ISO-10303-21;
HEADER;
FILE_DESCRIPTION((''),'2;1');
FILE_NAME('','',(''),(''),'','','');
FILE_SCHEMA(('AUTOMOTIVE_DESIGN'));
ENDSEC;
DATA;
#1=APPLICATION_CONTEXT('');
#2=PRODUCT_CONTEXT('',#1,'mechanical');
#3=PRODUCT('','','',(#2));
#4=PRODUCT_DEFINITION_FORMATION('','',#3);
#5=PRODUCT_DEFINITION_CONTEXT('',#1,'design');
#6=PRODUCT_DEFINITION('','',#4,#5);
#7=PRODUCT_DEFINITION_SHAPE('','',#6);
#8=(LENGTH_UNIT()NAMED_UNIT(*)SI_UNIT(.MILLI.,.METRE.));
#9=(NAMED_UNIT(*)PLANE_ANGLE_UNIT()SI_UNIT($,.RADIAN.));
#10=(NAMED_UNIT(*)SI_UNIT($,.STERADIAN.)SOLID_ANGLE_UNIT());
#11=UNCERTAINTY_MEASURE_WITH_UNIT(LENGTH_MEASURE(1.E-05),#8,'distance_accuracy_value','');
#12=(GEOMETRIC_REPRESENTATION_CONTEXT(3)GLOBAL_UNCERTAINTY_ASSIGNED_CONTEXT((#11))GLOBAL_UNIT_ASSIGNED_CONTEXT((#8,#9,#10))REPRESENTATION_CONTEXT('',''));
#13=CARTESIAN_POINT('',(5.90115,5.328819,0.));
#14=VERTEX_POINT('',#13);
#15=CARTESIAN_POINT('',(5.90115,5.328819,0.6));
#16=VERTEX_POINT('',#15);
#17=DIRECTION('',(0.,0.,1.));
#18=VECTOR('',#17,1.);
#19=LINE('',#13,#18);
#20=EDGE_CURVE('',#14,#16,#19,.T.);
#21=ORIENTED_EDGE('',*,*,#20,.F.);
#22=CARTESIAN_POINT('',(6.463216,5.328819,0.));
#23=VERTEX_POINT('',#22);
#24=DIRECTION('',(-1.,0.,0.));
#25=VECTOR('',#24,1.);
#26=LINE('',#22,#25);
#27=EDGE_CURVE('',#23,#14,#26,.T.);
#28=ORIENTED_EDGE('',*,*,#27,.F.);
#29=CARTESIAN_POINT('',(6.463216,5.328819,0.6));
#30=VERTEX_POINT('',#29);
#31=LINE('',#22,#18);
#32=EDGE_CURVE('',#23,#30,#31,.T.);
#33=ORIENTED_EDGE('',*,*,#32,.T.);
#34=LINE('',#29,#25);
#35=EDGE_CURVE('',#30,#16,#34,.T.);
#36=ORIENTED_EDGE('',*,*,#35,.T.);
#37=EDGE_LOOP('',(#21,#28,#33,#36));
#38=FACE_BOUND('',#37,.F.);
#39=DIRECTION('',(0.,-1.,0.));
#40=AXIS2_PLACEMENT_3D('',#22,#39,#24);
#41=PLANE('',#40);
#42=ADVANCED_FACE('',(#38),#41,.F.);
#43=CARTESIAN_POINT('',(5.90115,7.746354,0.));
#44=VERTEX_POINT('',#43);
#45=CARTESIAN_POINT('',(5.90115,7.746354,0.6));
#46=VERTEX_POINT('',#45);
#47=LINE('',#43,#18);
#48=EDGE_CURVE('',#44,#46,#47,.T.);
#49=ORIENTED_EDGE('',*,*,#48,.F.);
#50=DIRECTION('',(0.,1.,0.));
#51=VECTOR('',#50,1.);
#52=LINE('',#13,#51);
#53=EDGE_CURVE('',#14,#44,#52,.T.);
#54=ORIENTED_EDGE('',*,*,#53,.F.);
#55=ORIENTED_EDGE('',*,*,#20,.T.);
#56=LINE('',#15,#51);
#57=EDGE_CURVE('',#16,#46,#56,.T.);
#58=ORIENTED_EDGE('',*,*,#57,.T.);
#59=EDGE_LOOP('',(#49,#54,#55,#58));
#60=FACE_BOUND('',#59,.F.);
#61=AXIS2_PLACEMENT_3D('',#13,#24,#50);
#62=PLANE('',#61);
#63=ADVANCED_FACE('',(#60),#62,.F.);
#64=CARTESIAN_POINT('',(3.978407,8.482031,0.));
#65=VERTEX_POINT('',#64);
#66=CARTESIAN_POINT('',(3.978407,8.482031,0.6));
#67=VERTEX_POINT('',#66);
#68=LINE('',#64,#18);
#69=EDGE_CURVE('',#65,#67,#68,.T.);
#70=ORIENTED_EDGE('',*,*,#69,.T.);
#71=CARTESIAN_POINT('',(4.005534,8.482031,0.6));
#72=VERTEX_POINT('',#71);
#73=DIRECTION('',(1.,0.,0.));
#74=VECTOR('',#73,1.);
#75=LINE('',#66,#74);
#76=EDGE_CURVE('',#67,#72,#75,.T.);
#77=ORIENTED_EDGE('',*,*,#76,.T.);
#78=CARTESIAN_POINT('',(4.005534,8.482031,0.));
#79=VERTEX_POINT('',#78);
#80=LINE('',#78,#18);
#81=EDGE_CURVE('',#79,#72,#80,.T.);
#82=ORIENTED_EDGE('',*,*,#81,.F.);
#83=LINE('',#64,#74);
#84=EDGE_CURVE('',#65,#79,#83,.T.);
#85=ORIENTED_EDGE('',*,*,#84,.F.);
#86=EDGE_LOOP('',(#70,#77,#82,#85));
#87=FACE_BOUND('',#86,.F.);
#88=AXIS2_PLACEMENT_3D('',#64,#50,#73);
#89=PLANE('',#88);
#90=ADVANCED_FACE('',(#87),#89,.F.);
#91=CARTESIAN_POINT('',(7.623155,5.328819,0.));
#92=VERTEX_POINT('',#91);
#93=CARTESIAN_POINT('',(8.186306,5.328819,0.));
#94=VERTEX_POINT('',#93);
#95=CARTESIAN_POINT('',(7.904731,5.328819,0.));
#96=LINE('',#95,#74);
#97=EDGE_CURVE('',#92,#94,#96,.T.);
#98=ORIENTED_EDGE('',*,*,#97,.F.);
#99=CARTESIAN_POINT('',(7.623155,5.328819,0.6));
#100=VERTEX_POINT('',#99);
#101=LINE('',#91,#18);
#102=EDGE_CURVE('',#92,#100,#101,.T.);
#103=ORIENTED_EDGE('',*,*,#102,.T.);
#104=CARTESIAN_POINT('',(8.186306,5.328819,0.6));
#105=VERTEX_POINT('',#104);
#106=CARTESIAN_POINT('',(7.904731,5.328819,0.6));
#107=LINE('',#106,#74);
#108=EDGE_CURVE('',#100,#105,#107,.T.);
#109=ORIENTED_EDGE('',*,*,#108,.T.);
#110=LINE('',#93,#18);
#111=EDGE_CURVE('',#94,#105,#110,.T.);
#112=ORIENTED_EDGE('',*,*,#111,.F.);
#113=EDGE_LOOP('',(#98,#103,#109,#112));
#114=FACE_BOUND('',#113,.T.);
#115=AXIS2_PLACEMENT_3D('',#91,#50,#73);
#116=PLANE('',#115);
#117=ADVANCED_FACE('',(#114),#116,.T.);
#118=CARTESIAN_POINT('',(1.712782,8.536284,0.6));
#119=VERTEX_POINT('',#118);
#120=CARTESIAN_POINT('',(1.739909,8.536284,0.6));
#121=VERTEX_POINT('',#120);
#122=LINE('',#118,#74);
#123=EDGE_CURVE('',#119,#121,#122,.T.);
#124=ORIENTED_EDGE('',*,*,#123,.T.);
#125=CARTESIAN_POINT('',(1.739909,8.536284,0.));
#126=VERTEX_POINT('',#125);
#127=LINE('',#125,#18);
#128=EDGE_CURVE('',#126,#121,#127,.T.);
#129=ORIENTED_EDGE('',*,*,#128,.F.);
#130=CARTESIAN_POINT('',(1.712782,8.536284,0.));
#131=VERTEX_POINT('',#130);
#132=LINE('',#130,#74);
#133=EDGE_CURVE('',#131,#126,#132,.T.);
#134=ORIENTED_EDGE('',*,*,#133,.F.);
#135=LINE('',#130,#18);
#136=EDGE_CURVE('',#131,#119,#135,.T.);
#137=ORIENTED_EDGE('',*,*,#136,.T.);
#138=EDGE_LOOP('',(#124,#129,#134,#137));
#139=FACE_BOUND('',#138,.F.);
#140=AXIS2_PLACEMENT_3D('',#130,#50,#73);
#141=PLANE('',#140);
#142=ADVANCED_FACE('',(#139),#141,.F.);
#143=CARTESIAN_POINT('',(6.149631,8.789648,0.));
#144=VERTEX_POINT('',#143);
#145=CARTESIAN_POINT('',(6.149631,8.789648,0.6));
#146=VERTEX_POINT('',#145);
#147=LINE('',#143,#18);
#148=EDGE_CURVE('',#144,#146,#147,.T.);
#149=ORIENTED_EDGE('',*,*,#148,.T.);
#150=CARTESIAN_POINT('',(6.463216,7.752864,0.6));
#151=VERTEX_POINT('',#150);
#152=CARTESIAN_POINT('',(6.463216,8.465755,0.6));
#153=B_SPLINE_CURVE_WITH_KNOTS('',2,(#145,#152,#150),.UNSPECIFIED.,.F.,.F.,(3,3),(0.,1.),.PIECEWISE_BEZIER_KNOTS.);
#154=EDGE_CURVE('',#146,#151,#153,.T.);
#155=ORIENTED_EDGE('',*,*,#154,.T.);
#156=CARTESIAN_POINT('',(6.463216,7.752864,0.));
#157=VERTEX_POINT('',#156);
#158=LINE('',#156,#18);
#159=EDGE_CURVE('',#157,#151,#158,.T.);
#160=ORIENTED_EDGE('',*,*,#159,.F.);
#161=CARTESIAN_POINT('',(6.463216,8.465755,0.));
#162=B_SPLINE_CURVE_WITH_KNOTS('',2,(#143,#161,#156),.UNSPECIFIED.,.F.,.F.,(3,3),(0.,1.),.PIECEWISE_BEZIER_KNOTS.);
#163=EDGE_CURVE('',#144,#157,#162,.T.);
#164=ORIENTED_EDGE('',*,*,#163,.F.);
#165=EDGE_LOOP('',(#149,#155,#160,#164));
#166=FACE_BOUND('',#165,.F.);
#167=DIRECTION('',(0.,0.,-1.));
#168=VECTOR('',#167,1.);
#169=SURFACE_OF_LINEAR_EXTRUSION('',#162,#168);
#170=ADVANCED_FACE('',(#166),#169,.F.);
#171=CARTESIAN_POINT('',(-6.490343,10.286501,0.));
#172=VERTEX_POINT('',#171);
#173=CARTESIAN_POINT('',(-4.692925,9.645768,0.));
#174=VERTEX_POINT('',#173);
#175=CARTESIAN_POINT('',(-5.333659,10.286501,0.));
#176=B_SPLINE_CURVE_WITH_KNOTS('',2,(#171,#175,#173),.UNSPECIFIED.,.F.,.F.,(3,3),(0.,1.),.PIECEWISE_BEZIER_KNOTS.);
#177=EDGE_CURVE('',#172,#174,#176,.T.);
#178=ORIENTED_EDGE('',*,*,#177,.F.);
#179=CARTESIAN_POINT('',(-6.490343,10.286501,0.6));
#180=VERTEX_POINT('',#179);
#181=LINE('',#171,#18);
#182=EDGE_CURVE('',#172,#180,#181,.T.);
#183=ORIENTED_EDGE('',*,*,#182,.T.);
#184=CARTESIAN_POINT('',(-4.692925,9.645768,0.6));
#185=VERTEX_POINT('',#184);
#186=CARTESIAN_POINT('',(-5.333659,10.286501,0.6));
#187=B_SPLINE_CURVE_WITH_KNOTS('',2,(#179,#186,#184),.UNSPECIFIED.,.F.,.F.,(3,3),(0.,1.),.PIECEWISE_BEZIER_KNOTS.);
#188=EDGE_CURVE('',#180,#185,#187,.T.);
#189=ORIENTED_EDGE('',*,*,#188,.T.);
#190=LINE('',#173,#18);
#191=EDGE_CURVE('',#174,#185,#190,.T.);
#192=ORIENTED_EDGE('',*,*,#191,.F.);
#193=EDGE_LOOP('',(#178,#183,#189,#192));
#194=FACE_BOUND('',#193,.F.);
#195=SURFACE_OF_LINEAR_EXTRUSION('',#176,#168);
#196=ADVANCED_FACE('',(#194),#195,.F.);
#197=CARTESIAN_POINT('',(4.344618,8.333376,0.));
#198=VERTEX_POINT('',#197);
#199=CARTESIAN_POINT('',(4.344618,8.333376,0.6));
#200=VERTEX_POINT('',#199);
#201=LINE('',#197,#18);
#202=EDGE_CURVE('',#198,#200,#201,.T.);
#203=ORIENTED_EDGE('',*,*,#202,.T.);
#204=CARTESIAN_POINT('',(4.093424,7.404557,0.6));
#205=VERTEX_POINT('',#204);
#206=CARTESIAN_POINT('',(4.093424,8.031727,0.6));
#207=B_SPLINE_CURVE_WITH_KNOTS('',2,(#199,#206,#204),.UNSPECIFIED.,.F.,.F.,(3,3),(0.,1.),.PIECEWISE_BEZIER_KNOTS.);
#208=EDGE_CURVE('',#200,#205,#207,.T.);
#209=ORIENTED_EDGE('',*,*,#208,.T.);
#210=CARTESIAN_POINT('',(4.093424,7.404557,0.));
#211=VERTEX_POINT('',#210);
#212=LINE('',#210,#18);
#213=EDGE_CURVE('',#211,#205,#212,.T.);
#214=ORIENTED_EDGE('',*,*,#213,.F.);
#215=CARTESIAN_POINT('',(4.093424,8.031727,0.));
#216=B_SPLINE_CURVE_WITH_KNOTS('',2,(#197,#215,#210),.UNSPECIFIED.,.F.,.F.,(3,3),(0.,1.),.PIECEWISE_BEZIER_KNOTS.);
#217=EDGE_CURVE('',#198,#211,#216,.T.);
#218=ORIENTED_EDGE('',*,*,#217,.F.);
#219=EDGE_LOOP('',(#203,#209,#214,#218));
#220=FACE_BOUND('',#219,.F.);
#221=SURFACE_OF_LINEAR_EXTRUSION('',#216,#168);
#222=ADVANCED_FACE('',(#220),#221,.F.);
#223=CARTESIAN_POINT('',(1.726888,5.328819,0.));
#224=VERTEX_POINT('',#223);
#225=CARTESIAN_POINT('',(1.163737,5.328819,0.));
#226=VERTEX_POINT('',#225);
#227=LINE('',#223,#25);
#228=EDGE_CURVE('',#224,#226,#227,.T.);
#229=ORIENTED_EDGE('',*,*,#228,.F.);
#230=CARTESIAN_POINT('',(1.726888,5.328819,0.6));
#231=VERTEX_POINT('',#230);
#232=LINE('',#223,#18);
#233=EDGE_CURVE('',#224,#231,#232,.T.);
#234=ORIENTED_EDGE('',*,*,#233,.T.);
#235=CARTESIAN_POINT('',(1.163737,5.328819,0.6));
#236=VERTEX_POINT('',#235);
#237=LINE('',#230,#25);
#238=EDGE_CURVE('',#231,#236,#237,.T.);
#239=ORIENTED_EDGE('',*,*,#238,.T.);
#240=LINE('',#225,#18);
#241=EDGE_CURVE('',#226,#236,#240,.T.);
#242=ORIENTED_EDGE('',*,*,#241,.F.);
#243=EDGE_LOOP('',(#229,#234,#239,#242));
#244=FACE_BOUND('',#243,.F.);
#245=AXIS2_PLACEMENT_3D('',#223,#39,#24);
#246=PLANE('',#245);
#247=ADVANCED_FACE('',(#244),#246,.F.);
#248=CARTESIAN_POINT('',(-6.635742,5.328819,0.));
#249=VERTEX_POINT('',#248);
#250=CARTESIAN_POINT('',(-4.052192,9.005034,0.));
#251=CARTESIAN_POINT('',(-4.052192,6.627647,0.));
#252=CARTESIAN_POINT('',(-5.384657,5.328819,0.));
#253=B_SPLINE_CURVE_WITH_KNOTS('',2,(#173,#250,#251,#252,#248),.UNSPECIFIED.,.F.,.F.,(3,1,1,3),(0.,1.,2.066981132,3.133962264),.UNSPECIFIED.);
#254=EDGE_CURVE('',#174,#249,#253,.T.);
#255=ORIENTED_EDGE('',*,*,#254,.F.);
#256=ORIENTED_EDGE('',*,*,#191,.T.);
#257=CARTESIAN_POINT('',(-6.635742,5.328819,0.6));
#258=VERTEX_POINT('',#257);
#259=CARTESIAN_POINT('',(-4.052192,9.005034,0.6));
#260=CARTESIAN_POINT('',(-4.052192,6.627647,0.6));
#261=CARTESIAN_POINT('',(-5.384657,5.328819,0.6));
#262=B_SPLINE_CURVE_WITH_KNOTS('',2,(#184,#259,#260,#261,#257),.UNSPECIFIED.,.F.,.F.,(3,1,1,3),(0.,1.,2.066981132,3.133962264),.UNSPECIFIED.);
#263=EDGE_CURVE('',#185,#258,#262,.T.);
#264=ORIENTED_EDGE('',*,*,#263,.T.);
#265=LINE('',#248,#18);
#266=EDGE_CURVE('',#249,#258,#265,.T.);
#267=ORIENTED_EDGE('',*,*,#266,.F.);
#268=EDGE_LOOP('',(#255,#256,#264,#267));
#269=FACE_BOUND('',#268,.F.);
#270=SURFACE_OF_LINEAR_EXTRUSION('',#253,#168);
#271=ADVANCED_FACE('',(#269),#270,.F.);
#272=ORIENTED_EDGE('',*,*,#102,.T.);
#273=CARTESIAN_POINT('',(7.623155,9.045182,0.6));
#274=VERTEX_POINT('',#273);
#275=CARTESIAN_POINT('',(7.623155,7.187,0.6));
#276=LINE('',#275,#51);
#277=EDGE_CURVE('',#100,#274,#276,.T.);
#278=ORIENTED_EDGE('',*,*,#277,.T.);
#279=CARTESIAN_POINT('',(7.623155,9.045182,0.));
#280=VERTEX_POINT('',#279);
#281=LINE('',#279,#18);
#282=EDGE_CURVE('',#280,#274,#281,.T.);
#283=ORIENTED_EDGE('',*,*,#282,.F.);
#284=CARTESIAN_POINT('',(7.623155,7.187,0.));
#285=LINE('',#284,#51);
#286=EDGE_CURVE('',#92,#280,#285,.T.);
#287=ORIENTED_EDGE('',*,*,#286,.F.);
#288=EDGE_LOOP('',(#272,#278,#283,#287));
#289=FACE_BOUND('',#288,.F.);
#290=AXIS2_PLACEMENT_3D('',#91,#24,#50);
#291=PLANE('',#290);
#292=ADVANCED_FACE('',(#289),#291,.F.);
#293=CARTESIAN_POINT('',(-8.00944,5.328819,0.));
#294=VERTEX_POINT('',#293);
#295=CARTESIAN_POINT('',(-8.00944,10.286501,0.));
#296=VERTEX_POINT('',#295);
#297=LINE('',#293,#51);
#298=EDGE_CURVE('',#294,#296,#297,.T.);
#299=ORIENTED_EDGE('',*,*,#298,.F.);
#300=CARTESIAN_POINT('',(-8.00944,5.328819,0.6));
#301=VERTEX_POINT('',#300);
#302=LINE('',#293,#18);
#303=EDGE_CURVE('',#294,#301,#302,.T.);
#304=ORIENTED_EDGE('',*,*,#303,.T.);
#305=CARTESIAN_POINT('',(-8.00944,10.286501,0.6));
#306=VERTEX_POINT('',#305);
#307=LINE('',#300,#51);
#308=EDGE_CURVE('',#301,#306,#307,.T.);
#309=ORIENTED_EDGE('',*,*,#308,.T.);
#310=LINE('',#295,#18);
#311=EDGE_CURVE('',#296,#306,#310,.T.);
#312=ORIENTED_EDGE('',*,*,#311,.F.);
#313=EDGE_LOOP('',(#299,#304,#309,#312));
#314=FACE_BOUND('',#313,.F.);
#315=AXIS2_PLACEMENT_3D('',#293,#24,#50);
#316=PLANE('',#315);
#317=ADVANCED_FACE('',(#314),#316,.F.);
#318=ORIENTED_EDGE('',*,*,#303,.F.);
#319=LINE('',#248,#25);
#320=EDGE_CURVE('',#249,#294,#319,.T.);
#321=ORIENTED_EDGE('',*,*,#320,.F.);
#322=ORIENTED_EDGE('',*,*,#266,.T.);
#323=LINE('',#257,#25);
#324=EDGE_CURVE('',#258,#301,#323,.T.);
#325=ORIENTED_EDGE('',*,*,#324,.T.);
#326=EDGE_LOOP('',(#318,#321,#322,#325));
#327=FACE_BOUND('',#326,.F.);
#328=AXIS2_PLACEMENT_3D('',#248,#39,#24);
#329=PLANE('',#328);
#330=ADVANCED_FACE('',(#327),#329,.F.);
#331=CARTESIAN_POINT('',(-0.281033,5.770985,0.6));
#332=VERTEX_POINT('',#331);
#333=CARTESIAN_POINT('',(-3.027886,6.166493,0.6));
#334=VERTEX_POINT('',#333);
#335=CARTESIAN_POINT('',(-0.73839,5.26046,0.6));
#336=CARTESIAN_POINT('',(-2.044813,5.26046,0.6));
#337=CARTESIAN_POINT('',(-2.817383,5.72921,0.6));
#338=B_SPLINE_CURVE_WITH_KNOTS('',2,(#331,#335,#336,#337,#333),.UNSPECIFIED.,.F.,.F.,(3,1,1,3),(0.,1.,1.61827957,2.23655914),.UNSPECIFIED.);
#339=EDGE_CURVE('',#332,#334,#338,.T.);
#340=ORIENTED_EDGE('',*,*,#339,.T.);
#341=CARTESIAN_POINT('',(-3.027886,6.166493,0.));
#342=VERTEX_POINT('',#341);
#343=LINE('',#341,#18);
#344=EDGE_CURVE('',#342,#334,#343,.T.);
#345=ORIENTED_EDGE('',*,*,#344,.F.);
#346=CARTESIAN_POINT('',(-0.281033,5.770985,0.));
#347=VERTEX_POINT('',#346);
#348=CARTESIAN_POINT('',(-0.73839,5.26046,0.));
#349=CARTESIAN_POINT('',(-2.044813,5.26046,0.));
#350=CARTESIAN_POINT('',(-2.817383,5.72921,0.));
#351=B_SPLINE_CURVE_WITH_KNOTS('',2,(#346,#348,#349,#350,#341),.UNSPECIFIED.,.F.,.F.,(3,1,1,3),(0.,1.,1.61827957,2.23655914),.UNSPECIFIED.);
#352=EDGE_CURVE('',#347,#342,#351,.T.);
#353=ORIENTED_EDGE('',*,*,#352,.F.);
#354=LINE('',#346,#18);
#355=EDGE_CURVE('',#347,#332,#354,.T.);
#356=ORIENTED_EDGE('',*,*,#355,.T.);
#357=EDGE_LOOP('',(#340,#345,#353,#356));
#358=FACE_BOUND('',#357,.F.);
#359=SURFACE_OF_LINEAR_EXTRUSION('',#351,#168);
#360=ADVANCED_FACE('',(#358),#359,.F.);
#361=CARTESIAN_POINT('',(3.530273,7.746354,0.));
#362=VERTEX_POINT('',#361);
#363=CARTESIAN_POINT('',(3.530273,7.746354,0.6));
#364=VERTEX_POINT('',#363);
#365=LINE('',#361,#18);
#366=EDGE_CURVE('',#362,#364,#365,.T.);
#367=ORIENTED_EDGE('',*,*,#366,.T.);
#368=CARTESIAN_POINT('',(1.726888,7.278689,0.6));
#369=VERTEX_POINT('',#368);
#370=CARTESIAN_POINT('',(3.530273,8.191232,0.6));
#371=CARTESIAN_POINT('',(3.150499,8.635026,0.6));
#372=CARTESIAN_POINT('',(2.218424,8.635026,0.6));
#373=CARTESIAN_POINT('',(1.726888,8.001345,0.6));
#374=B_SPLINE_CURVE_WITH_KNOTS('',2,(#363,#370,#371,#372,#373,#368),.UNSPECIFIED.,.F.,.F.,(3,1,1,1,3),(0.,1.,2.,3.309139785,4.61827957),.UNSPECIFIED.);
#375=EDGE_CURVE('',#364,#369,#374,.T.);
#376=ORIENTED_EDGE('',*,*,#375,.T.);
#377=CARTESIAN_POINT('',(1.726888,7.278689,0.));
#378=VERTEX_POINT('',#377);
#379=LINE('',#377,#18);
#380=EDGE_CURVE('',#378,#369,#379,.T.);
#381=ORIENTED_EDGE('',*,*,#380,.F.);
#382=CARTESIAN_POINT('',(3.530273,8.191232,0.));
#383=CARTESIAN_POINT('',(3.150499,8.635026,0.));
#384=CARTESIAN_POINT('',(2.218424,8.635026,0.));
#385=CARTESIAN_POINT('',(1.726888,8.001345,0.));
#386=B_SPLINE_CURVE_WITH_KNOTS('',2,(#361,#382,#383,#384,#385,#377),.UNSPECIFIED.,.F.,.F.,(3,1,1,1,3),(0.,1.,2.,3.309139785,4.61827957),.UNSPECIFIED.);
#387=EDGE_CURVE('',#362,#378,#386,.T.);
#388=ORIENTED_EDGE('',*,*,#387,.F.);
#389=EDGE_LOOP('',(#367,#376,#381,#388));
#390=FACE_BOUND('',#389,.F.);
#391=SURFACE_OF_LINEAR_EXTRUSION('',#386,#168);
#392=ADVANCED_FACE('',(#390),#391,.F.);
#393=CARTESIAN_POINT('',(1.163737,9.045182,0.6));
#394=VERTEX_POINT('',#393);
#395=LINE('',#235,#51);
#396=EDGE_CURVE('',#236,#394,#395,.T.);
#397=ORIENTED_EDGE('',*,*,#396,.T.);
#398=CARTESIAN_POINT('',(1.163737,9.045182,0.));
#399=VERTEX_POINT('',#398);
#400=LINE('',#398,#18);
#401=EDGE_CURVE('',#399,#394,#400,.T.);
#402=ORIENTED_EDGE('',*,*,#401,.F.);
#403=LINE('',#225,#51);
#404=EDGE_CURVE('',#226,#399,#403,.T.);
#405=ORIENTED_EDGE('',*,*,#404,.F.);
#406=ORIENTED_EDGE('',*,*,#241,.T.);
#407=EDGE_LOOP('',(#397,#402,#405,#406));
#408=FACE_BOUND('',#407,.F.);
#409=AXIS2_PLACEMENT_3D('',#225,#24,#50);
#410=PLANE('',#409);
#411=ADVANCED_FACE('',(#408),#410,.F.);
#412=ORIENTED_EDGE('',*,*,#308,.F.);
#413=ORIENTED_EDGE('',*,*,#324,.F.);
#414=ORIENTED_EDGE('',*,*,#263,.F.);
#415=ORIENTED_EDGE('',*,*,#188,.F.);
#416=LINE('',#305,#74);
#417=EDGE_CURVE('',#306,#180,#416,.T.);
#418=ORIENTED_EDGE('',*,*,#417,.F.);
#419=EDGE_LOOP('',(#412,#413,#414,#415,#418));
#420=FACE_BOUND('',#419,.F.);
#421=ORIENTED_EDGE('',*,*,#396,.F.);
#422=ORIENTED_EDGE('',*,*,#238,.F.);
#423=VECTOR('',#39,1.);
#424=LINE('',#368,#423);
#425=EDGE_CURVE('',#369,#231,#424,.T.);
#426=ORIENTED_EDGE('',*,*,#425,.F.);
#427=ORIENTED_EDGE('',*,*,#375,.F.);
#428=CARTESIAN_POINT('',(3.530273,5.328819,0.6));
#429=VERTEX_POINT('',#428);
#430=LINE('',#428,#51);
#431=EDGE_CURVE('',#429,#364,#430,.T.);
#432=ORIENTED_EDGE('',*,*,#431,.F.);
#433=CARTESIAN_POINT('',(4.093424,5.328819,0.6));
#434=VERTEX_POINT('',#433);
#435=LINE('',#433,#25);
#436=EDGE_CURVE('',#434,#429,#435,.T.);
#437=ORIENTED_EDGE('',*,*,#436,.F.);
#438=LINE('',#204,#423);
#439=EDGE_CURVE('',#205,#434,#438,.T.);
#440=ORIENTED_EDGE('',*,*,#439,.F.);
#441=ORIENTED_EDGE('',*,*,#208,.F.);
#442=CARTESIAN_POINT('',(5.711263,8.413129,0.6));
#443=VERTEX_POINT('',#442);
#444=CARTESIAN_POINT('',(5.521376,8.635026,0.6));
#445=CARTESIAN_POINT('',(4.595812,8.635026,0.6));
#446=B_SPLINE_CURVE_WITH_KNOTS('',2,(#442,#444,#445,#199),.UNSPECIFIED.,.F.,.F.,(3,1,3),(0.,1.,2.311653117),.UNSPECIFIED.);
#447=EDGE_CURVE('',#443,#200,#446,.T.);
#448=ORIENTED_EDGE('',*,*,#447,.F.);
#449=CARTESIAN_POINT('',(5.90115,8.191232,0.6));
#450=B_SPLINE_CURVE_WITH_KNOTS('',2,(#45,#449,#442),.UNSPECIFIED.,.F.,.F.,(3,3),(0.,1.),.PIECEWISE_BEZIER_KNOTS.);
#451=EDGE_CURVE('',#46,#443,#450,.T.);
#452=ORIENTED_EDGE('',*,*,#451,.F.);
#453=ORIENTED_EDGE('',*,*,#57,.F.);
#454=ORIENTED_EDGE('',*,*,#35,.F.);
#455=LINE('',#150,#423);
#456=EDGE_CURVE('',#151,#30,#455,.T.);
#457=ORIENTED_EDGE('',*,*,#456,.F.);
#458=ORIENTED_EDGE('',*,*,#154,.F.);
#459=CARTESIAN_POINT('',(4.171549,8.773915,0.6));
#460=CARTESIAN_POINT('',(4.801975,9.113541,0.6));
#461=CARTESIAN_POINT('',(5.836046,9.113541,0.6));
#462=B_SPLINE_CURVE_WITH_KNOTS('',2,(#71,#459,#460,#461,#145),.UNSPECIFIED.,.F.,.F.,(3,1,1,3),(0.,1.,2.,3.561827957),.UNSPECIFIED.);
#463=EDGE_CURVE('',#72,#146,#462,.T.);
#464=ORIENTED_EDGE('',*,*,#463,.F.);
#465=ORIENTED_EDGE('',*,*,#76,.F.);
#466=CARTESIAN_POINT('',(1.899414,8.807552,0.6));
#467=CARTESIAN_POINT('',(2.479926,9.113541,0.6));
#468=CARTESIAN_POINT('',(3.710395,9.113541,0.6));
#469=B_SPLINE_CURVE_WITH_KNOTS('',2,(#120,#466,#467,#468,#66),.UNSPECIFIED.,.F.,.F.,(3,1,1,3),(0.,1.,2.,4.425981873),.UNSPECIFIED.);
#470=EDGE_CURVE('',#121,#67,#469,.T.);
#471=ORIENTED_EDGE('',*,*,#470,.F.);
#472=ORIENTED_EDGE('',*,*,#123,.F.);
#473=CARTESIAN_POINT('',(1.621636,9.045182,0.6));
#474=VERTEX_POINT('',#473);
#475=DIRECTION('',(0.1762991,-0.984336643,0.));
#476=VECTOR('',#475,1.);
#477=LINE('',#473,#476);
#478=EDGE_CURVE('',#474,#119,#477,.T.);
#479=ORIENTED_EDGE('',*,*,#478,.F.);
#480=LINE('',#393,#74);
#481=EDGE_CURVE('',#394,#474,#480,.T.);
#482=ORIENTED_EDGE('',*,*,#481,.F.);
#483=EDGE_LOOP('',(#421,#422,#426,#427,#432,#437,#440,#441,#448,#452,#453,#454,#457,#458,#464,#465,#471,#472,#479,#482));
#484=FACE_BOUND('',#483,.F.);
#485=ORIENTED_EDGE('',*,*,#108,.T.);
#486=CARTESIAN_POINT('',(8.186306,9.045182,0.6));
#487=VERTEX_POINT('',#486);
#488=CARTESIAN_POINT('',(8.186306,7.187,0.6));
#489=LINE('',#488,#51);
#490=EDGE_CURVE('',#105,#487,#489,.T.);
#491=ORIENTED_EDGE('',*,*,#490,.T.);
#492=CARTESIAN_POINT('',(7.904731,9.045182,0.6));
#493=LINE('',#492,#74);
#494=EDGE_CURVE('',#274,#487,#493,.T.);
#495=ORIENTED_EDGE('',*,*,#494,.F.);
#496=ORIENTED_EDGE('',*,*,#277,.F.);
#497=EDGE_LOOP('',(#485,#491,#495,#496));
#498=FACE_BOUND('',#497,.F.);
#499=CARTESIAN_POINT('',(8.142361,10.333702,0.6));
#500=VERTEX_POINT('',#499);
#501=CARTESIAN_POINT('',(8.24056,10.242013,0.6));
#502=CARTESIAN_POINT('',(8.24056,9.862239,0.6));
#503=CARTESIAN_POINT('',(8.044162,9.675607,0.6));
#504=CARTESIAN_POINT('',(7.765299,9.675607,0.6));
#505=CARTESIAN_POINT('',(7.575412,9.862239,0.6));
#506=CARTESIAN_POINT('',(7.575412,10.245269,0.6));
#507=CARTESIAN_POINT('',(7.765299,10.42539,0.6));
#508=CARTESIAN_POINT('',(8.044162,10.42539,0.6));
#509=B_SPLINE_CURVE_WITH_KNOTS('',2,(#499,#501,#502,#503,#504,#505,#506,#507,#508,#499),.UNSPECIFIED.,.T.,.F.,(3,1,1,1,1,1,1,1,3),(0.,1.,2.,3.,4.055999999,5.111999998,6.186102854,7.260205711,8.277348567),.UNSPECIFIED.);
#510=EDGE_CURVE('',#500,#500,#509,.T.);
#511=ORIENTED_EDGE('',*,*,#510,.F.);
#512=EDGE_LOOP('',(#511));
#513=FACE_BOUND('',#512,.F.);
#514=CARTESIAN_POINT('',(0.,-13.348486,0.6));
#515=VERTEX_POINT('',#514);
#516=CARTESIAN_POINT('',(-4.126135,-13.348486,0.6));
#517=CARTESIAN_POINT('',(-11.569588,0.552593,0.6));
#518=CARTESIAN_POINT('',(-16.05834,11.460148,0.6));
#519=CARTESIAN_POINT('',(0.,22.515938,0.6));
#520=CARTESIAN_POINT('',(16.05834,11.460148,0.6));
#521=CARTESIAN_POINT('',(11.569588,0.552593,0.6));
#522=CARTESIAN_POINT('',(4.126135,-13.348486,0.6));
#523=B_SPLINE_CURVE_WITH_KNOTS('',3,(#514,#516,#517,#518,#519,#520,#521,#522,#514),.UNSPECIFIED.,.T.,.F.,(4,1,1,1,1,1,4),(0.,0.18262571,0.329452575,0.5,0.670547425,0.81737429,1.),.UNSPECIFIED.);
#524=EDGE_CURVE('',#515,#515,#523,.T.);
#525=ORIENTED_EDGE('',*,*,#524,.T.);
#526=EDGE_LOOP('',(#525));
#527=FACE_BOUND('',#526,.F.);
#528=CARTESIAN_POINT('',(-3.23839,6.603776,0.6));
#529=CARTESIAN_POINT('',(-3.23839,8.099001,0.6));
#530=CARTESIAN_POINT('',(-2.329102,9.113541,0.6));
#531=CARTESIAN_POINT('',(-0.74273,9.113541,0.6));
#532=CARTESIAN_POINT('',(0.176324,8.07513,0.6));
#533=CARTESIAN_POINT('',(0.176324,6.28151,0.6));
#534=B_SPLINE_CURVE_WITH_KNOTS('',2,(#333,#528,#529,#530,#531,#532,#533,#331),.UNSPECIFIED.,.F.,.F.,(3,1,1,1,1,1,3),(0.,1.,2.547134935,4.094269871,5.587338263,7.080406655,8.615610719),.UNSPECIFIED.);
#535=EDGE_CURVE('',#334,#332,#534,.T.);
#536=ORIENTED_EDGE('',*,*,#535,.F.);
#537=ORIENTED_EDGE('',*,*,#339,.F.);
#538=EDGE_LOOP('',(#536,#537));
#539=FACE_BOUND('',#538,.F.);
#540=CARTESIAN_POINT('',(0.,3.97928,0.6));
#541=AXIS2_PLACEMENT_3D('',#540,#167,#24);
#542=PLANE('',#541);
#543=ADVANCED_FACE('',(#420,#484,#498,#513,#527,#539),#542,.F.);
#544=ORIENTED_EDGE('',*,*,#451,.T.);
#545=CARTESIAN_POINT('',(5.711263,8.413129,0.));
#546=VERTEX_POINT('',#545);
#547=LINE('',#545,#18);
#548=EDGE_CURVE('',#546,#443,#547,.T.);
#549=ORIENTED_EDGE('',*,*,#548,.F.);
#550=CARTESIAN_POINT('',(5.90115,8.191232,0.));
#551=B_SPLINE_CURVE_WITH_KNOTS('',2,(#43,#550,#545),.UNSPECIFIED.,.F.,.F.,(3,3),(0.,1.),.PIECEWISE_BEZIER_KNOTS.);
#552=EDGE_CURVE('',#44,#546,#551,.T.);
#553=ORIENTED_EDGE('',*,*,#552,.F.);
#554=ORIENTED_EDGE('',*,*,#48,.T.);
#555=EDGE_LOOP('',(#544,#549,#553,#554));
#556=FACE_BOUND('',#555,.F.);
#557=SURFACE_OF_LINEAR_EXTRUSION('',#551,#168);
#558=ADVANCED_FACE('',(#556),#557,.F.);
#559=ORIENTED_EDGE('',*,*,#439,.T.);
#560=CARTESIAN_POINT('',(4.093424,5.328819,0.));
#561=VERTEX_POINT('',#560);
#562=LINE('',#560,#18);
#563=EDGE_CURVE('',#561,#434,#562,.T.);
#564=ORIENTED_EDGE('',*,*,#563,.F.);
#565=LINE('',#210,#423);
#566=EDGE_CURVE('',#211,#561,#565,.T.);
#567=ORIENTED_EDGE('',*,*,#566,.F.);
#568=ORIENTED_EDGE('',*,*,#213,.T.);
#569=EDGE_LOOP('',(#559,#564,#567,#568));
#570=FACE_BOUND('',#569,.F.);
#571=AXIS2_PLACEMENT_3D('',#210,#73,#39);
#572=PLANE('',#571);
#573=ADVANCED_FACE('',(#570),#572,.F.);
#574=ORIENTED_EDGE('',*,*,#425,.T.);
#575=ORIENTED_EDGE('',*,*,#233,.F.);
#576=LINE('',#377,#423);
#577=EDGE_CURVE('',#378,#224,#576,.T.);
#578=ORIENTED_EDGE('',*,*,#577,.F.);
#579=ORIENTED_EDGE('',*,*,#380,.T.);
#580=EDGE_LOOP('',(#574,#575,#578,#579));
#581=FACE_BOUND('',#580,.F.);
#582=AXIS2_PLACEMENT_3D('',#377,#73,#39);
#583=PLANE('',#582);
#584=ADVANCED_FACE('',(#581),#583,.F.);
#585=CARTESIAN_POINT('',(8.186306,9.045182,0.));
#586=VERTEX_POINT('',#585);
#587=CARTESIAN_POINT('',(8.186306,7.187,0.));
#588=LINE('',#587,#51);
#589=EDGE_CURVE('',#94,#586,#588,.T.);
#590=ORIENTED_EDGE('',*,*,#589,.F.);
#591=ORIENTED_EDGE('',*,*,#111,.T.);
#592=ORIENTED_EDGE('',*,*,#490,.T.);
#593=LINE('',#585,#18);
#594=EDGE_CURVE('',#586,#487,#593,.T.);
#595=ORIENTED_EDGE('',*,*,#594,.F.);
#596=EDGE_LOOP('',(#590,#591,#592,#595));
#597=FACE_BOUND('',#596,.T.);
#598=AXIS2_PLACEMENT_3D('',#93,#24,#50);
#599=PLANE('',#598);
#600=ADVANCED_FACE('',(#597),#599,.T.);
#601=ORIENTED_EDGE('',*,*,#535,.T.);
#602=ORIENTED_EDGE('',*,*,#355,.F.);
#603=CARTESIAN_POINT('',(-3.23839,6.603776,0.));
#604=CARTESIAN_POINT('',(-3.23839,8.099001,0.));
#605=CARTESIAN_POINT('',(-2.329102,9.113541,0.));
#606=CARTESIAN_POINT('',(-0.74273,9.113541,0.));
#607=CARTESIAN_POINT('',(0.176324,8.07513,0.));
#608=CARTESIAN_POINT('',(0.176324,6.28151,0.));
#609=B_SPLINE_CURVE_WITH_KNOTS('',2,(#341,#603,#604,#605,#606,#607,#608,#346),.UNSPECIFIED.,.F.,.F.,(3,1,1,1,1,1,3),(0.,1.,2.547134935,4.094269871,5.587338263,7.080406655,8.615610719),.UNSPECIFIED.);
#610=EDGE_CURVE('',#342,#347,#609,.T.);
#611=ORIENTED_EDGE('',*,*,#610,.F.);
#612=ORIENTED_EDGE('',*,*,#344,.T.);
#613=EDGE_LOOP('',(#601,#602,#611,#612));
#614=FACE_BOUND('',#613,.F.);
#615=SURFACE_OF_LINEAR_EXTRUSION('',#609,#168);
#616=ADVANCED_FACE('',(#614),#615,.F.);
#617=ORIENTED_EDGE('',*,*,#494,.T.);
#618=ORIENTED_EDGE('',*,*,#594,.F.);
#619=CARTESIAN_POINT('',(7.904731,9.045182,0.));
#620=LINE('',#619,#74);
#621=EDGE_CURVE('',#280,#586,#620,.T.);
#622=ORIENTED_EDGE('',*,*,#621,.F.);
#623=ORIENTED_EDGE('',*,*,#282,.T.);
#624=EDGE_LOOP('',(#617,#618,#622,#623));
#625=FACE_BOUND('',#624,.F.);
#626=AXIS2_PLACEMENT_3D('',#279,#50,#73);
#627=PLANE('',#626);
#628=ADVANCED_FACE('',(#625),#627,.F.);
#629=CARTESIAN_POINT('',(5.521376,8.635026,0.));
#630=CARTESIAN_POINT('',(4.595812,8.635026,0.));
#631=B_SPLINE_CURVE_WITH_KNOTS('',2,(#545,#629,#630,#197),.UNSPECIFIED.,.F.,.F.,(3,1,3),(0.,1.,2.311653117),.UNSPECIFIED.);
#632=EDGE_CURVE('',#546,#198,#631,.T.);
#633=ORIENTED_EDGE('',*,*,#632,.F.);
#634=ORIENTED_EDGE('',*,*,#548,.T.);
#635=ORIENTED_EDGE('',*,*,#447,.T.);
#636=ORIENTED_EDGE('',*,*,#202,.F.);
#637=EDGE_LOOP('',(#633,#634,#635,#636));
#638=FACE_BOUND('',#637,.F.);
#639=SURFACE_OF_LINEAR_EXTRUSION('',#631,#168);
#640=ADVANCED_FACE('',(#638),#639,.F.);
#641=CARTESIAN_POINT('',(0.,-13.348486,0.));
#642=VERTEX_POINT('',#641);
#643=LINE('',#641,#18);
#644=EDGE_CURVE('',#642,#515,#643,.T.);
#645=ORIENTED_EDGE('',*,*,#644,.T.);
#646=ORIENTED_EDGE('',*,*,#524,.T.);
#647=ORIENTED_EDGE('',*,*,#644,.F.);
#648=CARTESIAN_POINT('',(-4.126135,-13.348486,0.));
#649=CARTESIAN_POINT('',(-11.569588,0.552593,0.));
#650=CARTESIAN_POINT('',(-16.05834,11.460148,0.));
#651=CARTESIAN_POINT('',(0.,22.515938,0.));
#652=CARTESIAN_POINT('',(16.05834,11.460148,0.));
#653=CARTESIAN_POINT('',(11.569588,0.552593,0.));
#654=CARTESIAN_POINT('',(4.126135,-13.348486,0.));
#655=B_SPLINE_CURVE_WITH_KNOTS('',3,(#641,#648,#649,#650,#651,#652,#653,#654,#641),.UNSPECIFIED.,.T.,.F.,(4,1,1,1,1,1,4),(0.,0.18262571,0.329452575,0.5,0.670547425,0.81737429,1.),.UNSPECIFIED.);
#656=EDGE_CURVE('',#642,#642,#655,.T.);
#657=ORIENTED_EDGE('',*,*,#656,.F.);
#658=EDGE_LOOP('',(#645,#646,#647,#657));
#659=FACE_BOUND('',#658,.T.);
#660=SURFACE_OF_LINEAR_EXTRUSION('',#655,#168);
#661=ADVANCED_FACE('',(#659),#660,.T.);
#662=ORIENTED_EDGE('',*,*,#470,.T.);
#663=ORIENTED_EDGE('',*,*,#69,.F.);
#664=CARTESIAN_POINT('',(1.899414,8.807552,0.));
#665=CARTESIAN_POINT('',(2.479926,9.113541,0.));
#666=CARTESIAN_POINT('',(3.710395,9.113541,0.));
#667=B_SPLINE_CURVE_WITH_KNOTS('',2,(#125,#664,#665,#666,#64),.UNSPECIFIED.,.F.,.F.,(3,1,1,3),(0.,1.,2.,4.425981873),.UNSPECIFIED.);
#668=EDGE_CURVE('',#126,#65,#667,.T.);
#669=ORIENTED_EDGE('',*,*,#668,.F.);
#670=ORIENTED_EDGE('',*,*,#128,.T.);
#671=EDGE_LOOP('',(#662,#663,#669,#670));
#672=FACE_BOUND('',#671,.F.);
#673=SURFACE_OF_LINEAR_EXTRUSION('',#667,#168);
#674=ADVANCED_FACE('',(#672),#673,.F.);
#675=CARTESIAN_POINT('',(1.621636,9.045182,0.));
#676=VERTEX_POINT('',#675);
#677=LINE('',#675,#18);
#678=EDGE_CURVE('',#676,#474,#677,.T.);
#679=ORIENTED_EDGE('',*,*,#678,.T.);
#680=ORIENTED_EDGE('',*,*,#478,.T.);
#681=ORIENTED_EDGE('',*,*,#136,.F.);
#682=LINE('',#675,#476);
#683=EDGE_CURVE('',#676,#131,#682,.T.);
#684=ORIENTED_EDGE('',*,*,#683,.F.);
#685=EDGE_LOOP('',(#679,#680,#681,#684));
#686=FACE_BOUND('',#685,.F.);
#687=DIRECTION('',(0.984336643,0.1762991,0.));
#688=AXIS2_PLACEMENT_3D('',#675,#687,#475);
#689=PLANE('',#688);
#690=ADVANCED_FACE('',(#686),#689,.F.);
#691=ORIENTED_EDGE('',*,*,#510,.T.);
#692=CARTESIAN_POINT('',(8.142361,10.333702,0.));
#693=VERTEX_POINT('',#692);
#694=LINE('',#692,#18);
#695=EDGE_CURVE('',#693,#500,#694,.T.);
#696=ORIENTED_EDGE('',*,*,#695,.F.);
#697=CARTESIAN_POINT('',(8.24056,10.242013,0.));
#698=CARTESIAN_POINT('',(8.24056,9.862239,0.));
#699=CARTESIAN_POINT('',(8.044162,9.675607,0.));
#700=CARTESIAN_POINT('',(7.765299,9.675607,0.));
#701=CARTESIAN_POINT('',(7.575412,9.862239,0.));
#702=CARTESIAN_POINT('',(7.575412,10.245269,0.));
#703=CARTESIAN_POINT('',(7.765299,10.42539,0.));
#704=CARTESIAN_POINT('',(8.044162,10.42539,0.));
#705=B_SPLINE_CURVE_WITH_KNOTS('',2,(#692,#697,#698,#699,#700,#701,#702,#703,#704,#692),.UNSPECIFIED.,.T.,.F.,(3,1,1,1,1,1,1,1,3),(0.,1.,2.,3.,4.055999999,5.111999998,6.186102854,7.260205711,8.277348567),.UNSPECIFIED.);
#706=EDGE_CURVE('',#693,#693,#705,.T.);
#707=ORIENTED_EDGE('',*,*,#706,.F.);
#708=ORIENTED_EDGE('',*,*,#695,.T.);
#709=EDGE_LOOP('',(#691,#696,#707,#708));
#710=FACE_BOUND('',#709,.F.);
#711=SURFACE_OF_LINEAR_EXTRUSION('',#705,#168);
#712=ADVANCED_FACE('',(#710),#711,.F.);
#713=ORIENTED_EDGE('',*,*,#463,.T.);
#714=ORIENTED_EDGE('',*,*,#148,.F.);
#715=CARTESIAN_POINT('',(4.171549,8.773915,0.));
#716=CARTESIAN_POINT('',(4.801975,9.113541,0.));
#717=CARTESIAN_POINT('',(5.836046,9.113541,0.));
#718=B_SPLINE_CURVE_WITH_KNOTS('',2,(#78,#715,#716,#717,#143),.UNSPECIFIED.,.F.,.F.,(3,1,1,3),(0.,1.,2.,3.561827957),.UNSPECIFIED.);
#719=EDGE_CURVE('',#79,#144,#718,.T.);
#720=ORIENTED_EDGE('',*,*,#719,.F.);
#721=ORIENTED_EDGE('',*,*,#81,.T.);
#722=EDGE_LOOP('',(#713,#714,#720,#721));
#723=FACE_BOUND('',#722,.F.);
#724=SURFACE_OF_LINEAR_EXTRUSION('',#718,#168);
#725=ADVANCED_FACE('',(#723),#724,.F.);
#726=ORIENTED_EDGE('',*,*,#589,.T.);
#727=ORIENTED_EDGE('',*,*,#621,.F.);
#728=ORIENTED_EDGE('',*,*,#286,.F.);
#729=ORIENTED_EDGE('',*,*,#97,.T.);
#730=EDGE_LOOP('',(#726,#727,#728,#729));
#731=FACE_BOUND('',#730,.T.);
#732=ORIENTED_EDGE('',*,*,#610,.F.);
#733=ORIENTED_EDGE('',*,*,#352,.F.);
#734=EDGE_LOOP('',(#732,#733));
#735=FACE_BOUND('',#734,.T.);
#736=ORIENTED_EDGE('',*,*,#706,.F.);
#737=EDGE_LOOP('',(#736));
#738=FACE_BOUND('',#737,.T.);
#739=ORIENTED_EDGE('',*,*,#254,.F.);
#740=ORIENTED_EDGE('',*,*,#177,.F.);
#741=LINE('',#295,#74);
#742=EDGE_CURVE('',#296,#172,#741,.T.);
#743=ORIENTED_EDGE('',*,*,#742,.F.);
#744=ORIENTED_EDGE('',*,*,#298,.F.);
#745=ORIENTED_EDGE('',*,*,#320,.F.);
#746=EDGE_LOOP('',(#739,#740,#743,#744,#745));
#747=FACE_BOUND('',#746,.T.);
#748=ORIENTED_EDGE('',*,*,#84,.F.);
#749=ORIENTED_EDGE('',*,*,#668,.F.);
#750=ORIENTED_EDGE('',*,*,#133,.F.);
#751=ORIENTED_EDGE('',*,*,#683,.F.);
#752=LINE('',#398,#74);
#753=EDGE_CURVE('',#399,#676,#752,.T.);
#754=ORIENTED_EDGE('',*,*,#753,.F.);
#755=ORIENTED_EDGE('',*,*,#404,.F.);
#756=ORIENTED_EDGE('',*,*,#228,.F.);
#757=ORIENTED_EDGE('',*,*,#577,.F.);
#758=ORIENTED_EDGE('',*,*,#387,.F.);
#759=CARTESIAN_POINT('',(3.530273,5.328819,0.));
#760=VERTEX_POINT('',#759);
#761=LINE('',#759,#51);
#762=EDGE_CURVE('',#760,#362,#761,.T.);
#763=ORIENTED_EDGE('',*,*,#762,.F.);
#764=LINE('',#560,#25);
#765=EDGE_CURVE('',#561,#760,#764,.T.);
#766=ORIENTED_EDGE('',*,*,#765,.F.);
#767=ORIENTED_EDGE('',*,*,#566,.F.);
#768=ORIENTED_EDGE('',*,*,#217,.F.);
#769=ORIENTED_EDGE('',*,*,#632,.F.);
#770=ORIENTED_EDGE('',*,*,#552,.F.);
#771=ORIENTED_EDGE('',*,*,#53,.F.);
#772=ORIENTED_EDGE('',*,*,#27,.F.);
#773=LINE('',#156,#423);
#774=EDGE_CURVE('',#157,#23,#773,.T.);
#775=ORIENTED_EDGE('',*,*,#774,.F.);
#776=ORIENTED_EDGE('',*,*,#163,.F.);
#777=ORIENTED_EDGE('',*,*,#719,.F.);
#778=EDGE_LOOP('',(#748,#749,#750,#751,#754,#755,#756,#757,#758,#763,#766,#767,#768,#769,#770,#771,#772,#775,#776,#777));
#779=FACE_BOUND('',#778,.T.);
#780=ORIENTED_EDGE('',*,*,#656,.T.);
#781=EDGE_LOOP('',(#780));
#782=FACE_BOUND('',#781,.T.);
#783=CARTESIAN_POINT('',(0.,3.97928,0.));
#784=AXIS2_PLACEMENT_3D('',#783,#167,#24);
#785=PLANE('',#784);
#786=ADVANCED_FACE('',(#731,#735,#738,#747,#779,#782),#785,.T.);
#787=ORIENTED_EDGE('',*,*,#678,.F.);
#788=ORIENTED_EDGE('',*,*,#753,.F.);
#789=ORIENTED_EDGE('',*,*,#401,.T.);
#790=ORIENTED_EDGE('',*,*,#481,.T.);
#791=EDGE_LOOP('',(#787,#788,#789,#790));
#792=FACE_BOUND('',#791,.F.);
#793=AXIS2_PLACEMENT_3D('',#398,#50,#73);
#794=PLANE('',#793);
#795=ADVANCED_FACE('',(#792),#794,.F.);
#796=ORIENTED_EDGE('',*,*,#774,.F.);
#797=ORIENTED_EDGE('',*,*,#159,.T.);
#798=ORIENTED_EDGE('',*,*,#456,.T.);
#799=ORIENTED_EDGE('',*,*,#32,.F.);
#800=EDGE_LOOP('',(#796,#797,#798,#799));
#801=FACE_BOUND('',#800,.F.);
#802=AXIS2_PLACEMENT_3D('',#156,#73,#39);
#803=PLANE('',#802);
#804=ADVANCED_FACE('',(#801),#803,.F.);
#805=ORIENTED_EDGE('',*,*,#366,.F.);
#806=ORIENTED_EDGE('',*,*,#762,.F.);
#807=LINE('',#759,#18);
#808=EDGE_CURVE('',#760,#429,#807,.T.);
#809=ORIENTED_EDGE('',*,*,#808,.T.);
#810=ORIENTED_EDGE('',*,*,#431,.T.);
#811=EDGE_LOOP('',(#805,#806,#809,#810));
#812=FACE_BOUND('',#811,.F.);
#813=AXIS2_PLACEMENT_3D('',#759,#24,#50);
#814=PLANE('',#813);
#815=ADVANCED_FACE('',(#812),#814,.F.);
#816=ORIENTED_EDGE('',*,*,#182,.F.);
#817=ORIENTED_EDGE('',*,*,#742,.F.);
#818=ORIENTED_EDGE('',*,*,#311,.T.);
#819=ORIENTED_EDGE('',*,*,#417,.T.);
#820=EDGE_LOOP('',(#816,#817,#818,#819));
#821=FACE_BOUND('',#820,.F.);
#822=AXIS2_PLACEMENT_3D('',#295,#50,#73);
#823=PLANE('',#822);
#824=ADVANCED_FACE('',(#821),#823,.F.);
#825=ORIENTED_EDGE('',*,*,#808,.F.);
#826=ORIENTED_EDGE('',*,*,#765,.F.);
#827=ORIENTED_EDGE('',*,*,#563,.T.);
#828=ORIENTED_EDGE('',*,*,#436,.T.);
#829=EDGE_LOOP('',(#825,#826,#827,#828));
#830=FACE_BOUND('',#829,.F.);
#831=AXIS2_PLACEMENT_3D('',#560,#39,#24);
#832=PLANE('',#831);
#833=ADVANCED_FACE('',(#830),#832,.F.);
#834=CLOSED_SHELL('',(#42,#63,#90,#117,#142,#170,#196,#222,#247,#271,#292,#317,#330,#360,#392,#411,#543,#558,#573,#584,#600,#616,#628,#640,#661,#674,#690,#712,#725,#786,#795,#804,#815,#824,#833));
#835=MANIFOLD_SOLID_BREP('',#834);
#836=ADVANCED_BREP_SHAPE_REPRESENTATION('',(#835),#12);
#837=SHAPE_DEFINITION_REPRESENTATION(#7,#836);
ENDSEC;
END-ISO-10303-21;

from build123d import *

# Parameters (mm, degrees)
F0_W     = 0.5631510417
F0_H     = 3.7163628472
F1_DEPTH = 0.6


with BuildPart() as f1:
    # F0 (on Top) → F1 (new body)
    with BuildSketch(Plane.XY):
        with BuildLine():
            add(Edge.make_bspline(
                [(0, -13.3484860004), (-4.1261352973, -13.3484860004), (-11.5695883563, 0.5525926673), (-16.058339722, 11.46014805), (0, 22.5159383761), (16.058339722, 11.46014805), (11.5695883563, 0.5525926673), (4.1261352973, -13.3484860004), (0, -13.3484860004)],
                knots=[0, 0, 0, 0, 0.18262571, 0.3294525753, 0.5, 0.6705474247, 0.81737429, 1, 1, 1, 1], degree=3))
        make_face()
        with BuildLine():
            add(Edge.make_bspline(
                [(-4.6929253472, 9.6457678287), (-4.0521918403, 9.0050343217), (-4.0521918403, 7.8548607106)],
                knots=[0, 0, 0, 1, 1, 1], degree=2))
            add(Edge.make_bspline(
                [(-4.0521918403, 7.8548607106), (-4.0521918403, 6.6276471689), (-4.7184244792, 5.9782331064)],
                knots=[0, 0, 0, 1, 1, 1], degree=2))
            add(Edge.make_bspline(
                [(-4.7184244792, 5.9782331064), (-5.3846571181, 5.3288190439), (-6.6357421875, 5.3288190439)],
                knots=[0, 0, 0, 1, 1, 1], degree=2))
            Line((-6.6357421875, 5.3288190439), (-8.0094401042, 5.3288190439))
            Line((-8.0094401042, 5.3288190439), (-8.0094401042, 10.2865013356))
            Line((-8.0094401042, 10.2865013356), (-6.4903428819, 10.2865013356))
            add(Edge.make_bspline(
                [(-6.4903428819, 10.2865013356), (-5.3336588542, 10.2865013356), (-4.6929253472, 9.6457678287)],
                knots=[0, 0, 0, 1, 1, 1], degree=2))
        make_face(mode=Mode.SUBTRACT)
        with BuildLine():
            add(Edge.make_bspline(
                [(-0.283203125, 8.594335537), (0.1763237847, 8.0751298078), (0.1763237847, 7.1907982106)],
                knots=[0, 0, 0, 1, 1, 1], degree=2))
            add(Edge.make_bspline(
                [(0.1763237847, 7.1907982106), (0.1763237847, 6.2815100162), (-0.2810329861, 5.7709848425)],
                knots=[0, 0, 0, 1, 1, 1], degree=2))
            add(Edge.make_bspline(
                [(-0.2810329861, 5.7709848425), (-0.7383897569, 5.2604596689), (-1.5456814236, 5.2604596689)],
                knots=[0, 0, 0, 1, 1, 1], degree=2))
            add(Edge.make_bspline(
                [(-1.5456814236, 5.2604596689), (-2.0448133681, 5.2604596689), (-2.4310980903, 5.4948346689)],
                knots=[0, 0, 0, 1, 1, 1], degree=2))
            add(Edge.make_bspline(
                [(-2.4310980903, 5.4948346689), (-2.8173828125, 5.7292096689), (-3.0278862847, 6.166492655)],
                knots=[0, 0, 0, 1, 1, 1], degree=2))
            add(Edge.make_bspline(
                [(-3.0278862847, 6.166492655), (-3.2383897569, 6.6037756412), (-3.2383897569, 7.1907982106)],
                knots=[0, 0, 0, 1, 1, 1], degree=2))
            add(Edge.make_bspline(
                [(-3.2383897569, 7.1907982106), (-3.2383897569, 8.0990013356), (-2.7837456597, 8.6062713009)],
                knots=[0, 0, 0, 1, 1, 1], degree=2))
            add(Edge.make_bspline(
                [(-2.7837456597, 8.6062713009), (-2.3291015625, 9.1135412662), (-1.5218098958, 9.1135412662)],
                knots=[0, 0, 0, 1, 1, 1], degree=2))
            add(Edge.make_bspline(
                [(-1.5218098958, 9.1135412662), (-0.7427300347, 9.1135412662), (-0.283203125, 8.594335537)],
                knots=[0, 0, 0, 1, 1, 1], degree=2))
        make_face(mode=Mode.SUBTRACT)
        with BuildLine():
            Line((6.4632161458, 5.3288190439), (5.9011501736, 5.3288190439))
            Line((5.9011501736, 5.3288190439), (5.9011501736, 7.7463537662))
            add(Edge.make_bspline(
                [(5.9011501736, 7.7463537662), (5.9011501736, 8.1912322384), (5.7112630208, 8.4131289398)],
                knots=[0, 0, 0, 1, 1, 1], degree=2))
            add(Edge.make_bspline(
                [(5.7112630208, 8.4131289398), (5.5213758681, 8.6350256412), (5.1209852431, 8.6350256412)],
                knots=[0, 0, 0, 1, 1, 1], degree=2))
            add(Edge.make_bspline(
                [(5.1209852431, 8.6350256412), (4.5958116319, 8.6350256412), (4.3446180556, 8.3333763356)],
                knots=[0, 0, 0, 1, 1, 1], degree=2))
            add(Edge.make_bspline(
                [(4.3446180556, 8.3333763356), (4.0934244792, 8.03172703), (4.0934244792, 7.4045568912)],
                knots=[0, 0, 0, 1, 1, 1], degree=2))
            Line((4.0934244792, 7.4045568912), (4.0934244792, 5.3288190439))
            Line((4.0934244792, 5.3288190439), (3.5302734375, 5.3288190439))
            Line((3.5302734375, 5.3288190439), (3.5302734375, 7.7463537662))
            add(Edge.make_bspline(
                [(3.5302734375, 7.7463537662), (3.5302734375, 8.1912322384), (3.3403862847, 8.4131289398)],
                knots=[0, 0, 0, 1, 1, 1], degree=2))
            add(Edge.make_bspline(
                [(3.3403862847, 8.4131289398), (3.1504991319, 8.6350256412), (2.7468532986, 8.6350256412)],
                knots=[0, 0, 0, 1, 1, 1], degree=2))
            add(Edge.make_bspline(
                [(2.7468532986, 8.6350256412), (2.2184244792, 8.6350256412), (1.97265625, 8.3181853634)],
                knots=[0, 0, 0, 1, 1, 1], degree=2))
            add(Edge.make_bspline(
                [(1.97265625, 8.3181853634), (1.7268880208, 8.0013450856), (1.7268880208, 7.2786888356)],
                knots=[0, 0, 0, 1, 1, 1], degree=2))
            Line((1.7268880208, 7.2786888356), (1.7268880208, 5.3288190439))
            Line((1.7268880208, 5.3288190439), (1.1637369792, 5.3288190439))
            Line((1.1637369792, 5.3288190439), (1.1637369792, 9.0451818912))
            Line((1.1637369792, 9.0451818912), (1.6216362847, 9.0451818912))
            Line((1.6216362847, 9.0451818912), (1.7127821181, 8.5362843217))
            Line((1.7127821181, 8.5362843217), (1.7399088542, 8.5362843217))
            add(Edge.make_bspline(
                [(1.7399088542, 8.5362843217), (1.8994140625, 8.8075516828), (2.1896701389, 8.9605464745)],
                knots=[0, 0, 0, 1, 1, 1], degree=2))
            add(Edge.make_bspline(
                [(2.1896701389, 8.9605464745), (2.4799262153, 9.1135412662), (2.8390842014, 9.1135412662)],
                knots=[0, 0, 0, 1, 1, 1], degree=2))
            add(Edge.make_bspline(
                [(2.8390842014, 9.1135412662), (3.7103949653, 9.1135412662), (3.9784071181, 8.4820308495)],
                knots=[0, 0, 0, 1, 1, 1], degree=2))
            Line((3.9784071181, 8.4820308495), (4.0055338542, 8.4820308495))
            add(Edge.make_bspline(
                [(4.0055338542, 8.4820308495), (4.1715494792, 8.77391453), (4.4867621528, 8.9437278981)],
                knots=[0, 0, 0, 1, 1, 1], degree=2))
            add(Edge.make_bspline(
                [(4.4867621528, 8.9437278981), (4.8019748264, 9.1135412662), (5.2056206597, 9.1135412662)],
                knots=[0, 0, 0, 1, 1, 1], degree=2))
            add(Edge.make_bspline(
                [(5.2056206597, 9.1135412662), (5.8360460069, 9.1135412662), (6.1496310764, 8.789648037)],
                knots=[0, 0, 0, 1, 1, 1], degree=2))
            add(Edge.make_bspline(
                [(6.1496310764, 8.789648037), (6.4632161458, 8.4657548078), (6.4632161458, 7.7528641828)],
                knots=[0, 0, 0, 1, 1, 1], degree=2))
            Line((6.4632161458, 7.7528641828), (6.4632161458, 5.3288190439))
        make_face(mode=Mode.SUBTRACT)
        with Locations((7.9047309028, 7.1870004675)):
            Rectangle(F0_W, F0_H, mode=Mode.SUBTRACT)
        with BuildLine():
            add(Edge.make_bspline(
                [(7.6703559028, 9.7689232106), (7.5754123264, 9.8622391828), (7.5754123264, 10.0521263356)],
                knots=[0, 0, 0, 1, 1, 1], degree=2))
            add(Edge.make_bspline(
                [(7.5754123264, 10.0521263356), (7.5754123264, 10.2452686967), (7.6703559028, 10.3353294606)],
                knots=[0, 0, 0, 1, 1, 1], degree=2))
            add(Edge.make_bspline(
                [(7.6703559028, 10.3353294606), (7.7652994792, 10.4253902245), (7.9085286458, 10.4253902245)],
                knots=[0, 0, 0, 1, 1, 1], degree=2))
            add(Edge.make_bspline(
                [(7.9085286458, 10.4253902245), (8.0441623264, 10.4253902245), (8.1423611111, 10.3337018564)],
                knots=[0, 0, 0, 1, 1, 1], degree=2))
            add(Edge.make_bspline(
                [(8.1423611111, 10.3337018564), (8.2405598958, 10.2420134884), (8.2405598958, 10.0521263356)],
                knots=[0, 0, 0, 1, 1, 1], degree=2))
            add(Edge.make_bspline(
                [(8.2405598958, 10.0521263356), (8.2405598958, 9.8622391828), (8.1423611111, 9.7689232106)],
                knots=[0, 0, 0, 1, 1, 1], degree=2))
            add(Edge.make_bspline(
                [(8.1423611111, 9.7689232106), (8.0441623264, 9.6756072384), (7.9085286458, 9.6756072384)],
                knots=[0, 0, 0, 1, 1, 1], degree=2))
            add(Edge.make_bspline(
                [(7.9085286458, 9.6756072384), (7.7652994792, 9.6756072384), (7.6703559028, 9.7689232106)],
                knots=[0, 0, 0, 1, 1, 1], degree=2))
        make_face(mode=Mode.SUBTRACT)
    extrude(amount=F1_DEPTH)


solid = f1.part
